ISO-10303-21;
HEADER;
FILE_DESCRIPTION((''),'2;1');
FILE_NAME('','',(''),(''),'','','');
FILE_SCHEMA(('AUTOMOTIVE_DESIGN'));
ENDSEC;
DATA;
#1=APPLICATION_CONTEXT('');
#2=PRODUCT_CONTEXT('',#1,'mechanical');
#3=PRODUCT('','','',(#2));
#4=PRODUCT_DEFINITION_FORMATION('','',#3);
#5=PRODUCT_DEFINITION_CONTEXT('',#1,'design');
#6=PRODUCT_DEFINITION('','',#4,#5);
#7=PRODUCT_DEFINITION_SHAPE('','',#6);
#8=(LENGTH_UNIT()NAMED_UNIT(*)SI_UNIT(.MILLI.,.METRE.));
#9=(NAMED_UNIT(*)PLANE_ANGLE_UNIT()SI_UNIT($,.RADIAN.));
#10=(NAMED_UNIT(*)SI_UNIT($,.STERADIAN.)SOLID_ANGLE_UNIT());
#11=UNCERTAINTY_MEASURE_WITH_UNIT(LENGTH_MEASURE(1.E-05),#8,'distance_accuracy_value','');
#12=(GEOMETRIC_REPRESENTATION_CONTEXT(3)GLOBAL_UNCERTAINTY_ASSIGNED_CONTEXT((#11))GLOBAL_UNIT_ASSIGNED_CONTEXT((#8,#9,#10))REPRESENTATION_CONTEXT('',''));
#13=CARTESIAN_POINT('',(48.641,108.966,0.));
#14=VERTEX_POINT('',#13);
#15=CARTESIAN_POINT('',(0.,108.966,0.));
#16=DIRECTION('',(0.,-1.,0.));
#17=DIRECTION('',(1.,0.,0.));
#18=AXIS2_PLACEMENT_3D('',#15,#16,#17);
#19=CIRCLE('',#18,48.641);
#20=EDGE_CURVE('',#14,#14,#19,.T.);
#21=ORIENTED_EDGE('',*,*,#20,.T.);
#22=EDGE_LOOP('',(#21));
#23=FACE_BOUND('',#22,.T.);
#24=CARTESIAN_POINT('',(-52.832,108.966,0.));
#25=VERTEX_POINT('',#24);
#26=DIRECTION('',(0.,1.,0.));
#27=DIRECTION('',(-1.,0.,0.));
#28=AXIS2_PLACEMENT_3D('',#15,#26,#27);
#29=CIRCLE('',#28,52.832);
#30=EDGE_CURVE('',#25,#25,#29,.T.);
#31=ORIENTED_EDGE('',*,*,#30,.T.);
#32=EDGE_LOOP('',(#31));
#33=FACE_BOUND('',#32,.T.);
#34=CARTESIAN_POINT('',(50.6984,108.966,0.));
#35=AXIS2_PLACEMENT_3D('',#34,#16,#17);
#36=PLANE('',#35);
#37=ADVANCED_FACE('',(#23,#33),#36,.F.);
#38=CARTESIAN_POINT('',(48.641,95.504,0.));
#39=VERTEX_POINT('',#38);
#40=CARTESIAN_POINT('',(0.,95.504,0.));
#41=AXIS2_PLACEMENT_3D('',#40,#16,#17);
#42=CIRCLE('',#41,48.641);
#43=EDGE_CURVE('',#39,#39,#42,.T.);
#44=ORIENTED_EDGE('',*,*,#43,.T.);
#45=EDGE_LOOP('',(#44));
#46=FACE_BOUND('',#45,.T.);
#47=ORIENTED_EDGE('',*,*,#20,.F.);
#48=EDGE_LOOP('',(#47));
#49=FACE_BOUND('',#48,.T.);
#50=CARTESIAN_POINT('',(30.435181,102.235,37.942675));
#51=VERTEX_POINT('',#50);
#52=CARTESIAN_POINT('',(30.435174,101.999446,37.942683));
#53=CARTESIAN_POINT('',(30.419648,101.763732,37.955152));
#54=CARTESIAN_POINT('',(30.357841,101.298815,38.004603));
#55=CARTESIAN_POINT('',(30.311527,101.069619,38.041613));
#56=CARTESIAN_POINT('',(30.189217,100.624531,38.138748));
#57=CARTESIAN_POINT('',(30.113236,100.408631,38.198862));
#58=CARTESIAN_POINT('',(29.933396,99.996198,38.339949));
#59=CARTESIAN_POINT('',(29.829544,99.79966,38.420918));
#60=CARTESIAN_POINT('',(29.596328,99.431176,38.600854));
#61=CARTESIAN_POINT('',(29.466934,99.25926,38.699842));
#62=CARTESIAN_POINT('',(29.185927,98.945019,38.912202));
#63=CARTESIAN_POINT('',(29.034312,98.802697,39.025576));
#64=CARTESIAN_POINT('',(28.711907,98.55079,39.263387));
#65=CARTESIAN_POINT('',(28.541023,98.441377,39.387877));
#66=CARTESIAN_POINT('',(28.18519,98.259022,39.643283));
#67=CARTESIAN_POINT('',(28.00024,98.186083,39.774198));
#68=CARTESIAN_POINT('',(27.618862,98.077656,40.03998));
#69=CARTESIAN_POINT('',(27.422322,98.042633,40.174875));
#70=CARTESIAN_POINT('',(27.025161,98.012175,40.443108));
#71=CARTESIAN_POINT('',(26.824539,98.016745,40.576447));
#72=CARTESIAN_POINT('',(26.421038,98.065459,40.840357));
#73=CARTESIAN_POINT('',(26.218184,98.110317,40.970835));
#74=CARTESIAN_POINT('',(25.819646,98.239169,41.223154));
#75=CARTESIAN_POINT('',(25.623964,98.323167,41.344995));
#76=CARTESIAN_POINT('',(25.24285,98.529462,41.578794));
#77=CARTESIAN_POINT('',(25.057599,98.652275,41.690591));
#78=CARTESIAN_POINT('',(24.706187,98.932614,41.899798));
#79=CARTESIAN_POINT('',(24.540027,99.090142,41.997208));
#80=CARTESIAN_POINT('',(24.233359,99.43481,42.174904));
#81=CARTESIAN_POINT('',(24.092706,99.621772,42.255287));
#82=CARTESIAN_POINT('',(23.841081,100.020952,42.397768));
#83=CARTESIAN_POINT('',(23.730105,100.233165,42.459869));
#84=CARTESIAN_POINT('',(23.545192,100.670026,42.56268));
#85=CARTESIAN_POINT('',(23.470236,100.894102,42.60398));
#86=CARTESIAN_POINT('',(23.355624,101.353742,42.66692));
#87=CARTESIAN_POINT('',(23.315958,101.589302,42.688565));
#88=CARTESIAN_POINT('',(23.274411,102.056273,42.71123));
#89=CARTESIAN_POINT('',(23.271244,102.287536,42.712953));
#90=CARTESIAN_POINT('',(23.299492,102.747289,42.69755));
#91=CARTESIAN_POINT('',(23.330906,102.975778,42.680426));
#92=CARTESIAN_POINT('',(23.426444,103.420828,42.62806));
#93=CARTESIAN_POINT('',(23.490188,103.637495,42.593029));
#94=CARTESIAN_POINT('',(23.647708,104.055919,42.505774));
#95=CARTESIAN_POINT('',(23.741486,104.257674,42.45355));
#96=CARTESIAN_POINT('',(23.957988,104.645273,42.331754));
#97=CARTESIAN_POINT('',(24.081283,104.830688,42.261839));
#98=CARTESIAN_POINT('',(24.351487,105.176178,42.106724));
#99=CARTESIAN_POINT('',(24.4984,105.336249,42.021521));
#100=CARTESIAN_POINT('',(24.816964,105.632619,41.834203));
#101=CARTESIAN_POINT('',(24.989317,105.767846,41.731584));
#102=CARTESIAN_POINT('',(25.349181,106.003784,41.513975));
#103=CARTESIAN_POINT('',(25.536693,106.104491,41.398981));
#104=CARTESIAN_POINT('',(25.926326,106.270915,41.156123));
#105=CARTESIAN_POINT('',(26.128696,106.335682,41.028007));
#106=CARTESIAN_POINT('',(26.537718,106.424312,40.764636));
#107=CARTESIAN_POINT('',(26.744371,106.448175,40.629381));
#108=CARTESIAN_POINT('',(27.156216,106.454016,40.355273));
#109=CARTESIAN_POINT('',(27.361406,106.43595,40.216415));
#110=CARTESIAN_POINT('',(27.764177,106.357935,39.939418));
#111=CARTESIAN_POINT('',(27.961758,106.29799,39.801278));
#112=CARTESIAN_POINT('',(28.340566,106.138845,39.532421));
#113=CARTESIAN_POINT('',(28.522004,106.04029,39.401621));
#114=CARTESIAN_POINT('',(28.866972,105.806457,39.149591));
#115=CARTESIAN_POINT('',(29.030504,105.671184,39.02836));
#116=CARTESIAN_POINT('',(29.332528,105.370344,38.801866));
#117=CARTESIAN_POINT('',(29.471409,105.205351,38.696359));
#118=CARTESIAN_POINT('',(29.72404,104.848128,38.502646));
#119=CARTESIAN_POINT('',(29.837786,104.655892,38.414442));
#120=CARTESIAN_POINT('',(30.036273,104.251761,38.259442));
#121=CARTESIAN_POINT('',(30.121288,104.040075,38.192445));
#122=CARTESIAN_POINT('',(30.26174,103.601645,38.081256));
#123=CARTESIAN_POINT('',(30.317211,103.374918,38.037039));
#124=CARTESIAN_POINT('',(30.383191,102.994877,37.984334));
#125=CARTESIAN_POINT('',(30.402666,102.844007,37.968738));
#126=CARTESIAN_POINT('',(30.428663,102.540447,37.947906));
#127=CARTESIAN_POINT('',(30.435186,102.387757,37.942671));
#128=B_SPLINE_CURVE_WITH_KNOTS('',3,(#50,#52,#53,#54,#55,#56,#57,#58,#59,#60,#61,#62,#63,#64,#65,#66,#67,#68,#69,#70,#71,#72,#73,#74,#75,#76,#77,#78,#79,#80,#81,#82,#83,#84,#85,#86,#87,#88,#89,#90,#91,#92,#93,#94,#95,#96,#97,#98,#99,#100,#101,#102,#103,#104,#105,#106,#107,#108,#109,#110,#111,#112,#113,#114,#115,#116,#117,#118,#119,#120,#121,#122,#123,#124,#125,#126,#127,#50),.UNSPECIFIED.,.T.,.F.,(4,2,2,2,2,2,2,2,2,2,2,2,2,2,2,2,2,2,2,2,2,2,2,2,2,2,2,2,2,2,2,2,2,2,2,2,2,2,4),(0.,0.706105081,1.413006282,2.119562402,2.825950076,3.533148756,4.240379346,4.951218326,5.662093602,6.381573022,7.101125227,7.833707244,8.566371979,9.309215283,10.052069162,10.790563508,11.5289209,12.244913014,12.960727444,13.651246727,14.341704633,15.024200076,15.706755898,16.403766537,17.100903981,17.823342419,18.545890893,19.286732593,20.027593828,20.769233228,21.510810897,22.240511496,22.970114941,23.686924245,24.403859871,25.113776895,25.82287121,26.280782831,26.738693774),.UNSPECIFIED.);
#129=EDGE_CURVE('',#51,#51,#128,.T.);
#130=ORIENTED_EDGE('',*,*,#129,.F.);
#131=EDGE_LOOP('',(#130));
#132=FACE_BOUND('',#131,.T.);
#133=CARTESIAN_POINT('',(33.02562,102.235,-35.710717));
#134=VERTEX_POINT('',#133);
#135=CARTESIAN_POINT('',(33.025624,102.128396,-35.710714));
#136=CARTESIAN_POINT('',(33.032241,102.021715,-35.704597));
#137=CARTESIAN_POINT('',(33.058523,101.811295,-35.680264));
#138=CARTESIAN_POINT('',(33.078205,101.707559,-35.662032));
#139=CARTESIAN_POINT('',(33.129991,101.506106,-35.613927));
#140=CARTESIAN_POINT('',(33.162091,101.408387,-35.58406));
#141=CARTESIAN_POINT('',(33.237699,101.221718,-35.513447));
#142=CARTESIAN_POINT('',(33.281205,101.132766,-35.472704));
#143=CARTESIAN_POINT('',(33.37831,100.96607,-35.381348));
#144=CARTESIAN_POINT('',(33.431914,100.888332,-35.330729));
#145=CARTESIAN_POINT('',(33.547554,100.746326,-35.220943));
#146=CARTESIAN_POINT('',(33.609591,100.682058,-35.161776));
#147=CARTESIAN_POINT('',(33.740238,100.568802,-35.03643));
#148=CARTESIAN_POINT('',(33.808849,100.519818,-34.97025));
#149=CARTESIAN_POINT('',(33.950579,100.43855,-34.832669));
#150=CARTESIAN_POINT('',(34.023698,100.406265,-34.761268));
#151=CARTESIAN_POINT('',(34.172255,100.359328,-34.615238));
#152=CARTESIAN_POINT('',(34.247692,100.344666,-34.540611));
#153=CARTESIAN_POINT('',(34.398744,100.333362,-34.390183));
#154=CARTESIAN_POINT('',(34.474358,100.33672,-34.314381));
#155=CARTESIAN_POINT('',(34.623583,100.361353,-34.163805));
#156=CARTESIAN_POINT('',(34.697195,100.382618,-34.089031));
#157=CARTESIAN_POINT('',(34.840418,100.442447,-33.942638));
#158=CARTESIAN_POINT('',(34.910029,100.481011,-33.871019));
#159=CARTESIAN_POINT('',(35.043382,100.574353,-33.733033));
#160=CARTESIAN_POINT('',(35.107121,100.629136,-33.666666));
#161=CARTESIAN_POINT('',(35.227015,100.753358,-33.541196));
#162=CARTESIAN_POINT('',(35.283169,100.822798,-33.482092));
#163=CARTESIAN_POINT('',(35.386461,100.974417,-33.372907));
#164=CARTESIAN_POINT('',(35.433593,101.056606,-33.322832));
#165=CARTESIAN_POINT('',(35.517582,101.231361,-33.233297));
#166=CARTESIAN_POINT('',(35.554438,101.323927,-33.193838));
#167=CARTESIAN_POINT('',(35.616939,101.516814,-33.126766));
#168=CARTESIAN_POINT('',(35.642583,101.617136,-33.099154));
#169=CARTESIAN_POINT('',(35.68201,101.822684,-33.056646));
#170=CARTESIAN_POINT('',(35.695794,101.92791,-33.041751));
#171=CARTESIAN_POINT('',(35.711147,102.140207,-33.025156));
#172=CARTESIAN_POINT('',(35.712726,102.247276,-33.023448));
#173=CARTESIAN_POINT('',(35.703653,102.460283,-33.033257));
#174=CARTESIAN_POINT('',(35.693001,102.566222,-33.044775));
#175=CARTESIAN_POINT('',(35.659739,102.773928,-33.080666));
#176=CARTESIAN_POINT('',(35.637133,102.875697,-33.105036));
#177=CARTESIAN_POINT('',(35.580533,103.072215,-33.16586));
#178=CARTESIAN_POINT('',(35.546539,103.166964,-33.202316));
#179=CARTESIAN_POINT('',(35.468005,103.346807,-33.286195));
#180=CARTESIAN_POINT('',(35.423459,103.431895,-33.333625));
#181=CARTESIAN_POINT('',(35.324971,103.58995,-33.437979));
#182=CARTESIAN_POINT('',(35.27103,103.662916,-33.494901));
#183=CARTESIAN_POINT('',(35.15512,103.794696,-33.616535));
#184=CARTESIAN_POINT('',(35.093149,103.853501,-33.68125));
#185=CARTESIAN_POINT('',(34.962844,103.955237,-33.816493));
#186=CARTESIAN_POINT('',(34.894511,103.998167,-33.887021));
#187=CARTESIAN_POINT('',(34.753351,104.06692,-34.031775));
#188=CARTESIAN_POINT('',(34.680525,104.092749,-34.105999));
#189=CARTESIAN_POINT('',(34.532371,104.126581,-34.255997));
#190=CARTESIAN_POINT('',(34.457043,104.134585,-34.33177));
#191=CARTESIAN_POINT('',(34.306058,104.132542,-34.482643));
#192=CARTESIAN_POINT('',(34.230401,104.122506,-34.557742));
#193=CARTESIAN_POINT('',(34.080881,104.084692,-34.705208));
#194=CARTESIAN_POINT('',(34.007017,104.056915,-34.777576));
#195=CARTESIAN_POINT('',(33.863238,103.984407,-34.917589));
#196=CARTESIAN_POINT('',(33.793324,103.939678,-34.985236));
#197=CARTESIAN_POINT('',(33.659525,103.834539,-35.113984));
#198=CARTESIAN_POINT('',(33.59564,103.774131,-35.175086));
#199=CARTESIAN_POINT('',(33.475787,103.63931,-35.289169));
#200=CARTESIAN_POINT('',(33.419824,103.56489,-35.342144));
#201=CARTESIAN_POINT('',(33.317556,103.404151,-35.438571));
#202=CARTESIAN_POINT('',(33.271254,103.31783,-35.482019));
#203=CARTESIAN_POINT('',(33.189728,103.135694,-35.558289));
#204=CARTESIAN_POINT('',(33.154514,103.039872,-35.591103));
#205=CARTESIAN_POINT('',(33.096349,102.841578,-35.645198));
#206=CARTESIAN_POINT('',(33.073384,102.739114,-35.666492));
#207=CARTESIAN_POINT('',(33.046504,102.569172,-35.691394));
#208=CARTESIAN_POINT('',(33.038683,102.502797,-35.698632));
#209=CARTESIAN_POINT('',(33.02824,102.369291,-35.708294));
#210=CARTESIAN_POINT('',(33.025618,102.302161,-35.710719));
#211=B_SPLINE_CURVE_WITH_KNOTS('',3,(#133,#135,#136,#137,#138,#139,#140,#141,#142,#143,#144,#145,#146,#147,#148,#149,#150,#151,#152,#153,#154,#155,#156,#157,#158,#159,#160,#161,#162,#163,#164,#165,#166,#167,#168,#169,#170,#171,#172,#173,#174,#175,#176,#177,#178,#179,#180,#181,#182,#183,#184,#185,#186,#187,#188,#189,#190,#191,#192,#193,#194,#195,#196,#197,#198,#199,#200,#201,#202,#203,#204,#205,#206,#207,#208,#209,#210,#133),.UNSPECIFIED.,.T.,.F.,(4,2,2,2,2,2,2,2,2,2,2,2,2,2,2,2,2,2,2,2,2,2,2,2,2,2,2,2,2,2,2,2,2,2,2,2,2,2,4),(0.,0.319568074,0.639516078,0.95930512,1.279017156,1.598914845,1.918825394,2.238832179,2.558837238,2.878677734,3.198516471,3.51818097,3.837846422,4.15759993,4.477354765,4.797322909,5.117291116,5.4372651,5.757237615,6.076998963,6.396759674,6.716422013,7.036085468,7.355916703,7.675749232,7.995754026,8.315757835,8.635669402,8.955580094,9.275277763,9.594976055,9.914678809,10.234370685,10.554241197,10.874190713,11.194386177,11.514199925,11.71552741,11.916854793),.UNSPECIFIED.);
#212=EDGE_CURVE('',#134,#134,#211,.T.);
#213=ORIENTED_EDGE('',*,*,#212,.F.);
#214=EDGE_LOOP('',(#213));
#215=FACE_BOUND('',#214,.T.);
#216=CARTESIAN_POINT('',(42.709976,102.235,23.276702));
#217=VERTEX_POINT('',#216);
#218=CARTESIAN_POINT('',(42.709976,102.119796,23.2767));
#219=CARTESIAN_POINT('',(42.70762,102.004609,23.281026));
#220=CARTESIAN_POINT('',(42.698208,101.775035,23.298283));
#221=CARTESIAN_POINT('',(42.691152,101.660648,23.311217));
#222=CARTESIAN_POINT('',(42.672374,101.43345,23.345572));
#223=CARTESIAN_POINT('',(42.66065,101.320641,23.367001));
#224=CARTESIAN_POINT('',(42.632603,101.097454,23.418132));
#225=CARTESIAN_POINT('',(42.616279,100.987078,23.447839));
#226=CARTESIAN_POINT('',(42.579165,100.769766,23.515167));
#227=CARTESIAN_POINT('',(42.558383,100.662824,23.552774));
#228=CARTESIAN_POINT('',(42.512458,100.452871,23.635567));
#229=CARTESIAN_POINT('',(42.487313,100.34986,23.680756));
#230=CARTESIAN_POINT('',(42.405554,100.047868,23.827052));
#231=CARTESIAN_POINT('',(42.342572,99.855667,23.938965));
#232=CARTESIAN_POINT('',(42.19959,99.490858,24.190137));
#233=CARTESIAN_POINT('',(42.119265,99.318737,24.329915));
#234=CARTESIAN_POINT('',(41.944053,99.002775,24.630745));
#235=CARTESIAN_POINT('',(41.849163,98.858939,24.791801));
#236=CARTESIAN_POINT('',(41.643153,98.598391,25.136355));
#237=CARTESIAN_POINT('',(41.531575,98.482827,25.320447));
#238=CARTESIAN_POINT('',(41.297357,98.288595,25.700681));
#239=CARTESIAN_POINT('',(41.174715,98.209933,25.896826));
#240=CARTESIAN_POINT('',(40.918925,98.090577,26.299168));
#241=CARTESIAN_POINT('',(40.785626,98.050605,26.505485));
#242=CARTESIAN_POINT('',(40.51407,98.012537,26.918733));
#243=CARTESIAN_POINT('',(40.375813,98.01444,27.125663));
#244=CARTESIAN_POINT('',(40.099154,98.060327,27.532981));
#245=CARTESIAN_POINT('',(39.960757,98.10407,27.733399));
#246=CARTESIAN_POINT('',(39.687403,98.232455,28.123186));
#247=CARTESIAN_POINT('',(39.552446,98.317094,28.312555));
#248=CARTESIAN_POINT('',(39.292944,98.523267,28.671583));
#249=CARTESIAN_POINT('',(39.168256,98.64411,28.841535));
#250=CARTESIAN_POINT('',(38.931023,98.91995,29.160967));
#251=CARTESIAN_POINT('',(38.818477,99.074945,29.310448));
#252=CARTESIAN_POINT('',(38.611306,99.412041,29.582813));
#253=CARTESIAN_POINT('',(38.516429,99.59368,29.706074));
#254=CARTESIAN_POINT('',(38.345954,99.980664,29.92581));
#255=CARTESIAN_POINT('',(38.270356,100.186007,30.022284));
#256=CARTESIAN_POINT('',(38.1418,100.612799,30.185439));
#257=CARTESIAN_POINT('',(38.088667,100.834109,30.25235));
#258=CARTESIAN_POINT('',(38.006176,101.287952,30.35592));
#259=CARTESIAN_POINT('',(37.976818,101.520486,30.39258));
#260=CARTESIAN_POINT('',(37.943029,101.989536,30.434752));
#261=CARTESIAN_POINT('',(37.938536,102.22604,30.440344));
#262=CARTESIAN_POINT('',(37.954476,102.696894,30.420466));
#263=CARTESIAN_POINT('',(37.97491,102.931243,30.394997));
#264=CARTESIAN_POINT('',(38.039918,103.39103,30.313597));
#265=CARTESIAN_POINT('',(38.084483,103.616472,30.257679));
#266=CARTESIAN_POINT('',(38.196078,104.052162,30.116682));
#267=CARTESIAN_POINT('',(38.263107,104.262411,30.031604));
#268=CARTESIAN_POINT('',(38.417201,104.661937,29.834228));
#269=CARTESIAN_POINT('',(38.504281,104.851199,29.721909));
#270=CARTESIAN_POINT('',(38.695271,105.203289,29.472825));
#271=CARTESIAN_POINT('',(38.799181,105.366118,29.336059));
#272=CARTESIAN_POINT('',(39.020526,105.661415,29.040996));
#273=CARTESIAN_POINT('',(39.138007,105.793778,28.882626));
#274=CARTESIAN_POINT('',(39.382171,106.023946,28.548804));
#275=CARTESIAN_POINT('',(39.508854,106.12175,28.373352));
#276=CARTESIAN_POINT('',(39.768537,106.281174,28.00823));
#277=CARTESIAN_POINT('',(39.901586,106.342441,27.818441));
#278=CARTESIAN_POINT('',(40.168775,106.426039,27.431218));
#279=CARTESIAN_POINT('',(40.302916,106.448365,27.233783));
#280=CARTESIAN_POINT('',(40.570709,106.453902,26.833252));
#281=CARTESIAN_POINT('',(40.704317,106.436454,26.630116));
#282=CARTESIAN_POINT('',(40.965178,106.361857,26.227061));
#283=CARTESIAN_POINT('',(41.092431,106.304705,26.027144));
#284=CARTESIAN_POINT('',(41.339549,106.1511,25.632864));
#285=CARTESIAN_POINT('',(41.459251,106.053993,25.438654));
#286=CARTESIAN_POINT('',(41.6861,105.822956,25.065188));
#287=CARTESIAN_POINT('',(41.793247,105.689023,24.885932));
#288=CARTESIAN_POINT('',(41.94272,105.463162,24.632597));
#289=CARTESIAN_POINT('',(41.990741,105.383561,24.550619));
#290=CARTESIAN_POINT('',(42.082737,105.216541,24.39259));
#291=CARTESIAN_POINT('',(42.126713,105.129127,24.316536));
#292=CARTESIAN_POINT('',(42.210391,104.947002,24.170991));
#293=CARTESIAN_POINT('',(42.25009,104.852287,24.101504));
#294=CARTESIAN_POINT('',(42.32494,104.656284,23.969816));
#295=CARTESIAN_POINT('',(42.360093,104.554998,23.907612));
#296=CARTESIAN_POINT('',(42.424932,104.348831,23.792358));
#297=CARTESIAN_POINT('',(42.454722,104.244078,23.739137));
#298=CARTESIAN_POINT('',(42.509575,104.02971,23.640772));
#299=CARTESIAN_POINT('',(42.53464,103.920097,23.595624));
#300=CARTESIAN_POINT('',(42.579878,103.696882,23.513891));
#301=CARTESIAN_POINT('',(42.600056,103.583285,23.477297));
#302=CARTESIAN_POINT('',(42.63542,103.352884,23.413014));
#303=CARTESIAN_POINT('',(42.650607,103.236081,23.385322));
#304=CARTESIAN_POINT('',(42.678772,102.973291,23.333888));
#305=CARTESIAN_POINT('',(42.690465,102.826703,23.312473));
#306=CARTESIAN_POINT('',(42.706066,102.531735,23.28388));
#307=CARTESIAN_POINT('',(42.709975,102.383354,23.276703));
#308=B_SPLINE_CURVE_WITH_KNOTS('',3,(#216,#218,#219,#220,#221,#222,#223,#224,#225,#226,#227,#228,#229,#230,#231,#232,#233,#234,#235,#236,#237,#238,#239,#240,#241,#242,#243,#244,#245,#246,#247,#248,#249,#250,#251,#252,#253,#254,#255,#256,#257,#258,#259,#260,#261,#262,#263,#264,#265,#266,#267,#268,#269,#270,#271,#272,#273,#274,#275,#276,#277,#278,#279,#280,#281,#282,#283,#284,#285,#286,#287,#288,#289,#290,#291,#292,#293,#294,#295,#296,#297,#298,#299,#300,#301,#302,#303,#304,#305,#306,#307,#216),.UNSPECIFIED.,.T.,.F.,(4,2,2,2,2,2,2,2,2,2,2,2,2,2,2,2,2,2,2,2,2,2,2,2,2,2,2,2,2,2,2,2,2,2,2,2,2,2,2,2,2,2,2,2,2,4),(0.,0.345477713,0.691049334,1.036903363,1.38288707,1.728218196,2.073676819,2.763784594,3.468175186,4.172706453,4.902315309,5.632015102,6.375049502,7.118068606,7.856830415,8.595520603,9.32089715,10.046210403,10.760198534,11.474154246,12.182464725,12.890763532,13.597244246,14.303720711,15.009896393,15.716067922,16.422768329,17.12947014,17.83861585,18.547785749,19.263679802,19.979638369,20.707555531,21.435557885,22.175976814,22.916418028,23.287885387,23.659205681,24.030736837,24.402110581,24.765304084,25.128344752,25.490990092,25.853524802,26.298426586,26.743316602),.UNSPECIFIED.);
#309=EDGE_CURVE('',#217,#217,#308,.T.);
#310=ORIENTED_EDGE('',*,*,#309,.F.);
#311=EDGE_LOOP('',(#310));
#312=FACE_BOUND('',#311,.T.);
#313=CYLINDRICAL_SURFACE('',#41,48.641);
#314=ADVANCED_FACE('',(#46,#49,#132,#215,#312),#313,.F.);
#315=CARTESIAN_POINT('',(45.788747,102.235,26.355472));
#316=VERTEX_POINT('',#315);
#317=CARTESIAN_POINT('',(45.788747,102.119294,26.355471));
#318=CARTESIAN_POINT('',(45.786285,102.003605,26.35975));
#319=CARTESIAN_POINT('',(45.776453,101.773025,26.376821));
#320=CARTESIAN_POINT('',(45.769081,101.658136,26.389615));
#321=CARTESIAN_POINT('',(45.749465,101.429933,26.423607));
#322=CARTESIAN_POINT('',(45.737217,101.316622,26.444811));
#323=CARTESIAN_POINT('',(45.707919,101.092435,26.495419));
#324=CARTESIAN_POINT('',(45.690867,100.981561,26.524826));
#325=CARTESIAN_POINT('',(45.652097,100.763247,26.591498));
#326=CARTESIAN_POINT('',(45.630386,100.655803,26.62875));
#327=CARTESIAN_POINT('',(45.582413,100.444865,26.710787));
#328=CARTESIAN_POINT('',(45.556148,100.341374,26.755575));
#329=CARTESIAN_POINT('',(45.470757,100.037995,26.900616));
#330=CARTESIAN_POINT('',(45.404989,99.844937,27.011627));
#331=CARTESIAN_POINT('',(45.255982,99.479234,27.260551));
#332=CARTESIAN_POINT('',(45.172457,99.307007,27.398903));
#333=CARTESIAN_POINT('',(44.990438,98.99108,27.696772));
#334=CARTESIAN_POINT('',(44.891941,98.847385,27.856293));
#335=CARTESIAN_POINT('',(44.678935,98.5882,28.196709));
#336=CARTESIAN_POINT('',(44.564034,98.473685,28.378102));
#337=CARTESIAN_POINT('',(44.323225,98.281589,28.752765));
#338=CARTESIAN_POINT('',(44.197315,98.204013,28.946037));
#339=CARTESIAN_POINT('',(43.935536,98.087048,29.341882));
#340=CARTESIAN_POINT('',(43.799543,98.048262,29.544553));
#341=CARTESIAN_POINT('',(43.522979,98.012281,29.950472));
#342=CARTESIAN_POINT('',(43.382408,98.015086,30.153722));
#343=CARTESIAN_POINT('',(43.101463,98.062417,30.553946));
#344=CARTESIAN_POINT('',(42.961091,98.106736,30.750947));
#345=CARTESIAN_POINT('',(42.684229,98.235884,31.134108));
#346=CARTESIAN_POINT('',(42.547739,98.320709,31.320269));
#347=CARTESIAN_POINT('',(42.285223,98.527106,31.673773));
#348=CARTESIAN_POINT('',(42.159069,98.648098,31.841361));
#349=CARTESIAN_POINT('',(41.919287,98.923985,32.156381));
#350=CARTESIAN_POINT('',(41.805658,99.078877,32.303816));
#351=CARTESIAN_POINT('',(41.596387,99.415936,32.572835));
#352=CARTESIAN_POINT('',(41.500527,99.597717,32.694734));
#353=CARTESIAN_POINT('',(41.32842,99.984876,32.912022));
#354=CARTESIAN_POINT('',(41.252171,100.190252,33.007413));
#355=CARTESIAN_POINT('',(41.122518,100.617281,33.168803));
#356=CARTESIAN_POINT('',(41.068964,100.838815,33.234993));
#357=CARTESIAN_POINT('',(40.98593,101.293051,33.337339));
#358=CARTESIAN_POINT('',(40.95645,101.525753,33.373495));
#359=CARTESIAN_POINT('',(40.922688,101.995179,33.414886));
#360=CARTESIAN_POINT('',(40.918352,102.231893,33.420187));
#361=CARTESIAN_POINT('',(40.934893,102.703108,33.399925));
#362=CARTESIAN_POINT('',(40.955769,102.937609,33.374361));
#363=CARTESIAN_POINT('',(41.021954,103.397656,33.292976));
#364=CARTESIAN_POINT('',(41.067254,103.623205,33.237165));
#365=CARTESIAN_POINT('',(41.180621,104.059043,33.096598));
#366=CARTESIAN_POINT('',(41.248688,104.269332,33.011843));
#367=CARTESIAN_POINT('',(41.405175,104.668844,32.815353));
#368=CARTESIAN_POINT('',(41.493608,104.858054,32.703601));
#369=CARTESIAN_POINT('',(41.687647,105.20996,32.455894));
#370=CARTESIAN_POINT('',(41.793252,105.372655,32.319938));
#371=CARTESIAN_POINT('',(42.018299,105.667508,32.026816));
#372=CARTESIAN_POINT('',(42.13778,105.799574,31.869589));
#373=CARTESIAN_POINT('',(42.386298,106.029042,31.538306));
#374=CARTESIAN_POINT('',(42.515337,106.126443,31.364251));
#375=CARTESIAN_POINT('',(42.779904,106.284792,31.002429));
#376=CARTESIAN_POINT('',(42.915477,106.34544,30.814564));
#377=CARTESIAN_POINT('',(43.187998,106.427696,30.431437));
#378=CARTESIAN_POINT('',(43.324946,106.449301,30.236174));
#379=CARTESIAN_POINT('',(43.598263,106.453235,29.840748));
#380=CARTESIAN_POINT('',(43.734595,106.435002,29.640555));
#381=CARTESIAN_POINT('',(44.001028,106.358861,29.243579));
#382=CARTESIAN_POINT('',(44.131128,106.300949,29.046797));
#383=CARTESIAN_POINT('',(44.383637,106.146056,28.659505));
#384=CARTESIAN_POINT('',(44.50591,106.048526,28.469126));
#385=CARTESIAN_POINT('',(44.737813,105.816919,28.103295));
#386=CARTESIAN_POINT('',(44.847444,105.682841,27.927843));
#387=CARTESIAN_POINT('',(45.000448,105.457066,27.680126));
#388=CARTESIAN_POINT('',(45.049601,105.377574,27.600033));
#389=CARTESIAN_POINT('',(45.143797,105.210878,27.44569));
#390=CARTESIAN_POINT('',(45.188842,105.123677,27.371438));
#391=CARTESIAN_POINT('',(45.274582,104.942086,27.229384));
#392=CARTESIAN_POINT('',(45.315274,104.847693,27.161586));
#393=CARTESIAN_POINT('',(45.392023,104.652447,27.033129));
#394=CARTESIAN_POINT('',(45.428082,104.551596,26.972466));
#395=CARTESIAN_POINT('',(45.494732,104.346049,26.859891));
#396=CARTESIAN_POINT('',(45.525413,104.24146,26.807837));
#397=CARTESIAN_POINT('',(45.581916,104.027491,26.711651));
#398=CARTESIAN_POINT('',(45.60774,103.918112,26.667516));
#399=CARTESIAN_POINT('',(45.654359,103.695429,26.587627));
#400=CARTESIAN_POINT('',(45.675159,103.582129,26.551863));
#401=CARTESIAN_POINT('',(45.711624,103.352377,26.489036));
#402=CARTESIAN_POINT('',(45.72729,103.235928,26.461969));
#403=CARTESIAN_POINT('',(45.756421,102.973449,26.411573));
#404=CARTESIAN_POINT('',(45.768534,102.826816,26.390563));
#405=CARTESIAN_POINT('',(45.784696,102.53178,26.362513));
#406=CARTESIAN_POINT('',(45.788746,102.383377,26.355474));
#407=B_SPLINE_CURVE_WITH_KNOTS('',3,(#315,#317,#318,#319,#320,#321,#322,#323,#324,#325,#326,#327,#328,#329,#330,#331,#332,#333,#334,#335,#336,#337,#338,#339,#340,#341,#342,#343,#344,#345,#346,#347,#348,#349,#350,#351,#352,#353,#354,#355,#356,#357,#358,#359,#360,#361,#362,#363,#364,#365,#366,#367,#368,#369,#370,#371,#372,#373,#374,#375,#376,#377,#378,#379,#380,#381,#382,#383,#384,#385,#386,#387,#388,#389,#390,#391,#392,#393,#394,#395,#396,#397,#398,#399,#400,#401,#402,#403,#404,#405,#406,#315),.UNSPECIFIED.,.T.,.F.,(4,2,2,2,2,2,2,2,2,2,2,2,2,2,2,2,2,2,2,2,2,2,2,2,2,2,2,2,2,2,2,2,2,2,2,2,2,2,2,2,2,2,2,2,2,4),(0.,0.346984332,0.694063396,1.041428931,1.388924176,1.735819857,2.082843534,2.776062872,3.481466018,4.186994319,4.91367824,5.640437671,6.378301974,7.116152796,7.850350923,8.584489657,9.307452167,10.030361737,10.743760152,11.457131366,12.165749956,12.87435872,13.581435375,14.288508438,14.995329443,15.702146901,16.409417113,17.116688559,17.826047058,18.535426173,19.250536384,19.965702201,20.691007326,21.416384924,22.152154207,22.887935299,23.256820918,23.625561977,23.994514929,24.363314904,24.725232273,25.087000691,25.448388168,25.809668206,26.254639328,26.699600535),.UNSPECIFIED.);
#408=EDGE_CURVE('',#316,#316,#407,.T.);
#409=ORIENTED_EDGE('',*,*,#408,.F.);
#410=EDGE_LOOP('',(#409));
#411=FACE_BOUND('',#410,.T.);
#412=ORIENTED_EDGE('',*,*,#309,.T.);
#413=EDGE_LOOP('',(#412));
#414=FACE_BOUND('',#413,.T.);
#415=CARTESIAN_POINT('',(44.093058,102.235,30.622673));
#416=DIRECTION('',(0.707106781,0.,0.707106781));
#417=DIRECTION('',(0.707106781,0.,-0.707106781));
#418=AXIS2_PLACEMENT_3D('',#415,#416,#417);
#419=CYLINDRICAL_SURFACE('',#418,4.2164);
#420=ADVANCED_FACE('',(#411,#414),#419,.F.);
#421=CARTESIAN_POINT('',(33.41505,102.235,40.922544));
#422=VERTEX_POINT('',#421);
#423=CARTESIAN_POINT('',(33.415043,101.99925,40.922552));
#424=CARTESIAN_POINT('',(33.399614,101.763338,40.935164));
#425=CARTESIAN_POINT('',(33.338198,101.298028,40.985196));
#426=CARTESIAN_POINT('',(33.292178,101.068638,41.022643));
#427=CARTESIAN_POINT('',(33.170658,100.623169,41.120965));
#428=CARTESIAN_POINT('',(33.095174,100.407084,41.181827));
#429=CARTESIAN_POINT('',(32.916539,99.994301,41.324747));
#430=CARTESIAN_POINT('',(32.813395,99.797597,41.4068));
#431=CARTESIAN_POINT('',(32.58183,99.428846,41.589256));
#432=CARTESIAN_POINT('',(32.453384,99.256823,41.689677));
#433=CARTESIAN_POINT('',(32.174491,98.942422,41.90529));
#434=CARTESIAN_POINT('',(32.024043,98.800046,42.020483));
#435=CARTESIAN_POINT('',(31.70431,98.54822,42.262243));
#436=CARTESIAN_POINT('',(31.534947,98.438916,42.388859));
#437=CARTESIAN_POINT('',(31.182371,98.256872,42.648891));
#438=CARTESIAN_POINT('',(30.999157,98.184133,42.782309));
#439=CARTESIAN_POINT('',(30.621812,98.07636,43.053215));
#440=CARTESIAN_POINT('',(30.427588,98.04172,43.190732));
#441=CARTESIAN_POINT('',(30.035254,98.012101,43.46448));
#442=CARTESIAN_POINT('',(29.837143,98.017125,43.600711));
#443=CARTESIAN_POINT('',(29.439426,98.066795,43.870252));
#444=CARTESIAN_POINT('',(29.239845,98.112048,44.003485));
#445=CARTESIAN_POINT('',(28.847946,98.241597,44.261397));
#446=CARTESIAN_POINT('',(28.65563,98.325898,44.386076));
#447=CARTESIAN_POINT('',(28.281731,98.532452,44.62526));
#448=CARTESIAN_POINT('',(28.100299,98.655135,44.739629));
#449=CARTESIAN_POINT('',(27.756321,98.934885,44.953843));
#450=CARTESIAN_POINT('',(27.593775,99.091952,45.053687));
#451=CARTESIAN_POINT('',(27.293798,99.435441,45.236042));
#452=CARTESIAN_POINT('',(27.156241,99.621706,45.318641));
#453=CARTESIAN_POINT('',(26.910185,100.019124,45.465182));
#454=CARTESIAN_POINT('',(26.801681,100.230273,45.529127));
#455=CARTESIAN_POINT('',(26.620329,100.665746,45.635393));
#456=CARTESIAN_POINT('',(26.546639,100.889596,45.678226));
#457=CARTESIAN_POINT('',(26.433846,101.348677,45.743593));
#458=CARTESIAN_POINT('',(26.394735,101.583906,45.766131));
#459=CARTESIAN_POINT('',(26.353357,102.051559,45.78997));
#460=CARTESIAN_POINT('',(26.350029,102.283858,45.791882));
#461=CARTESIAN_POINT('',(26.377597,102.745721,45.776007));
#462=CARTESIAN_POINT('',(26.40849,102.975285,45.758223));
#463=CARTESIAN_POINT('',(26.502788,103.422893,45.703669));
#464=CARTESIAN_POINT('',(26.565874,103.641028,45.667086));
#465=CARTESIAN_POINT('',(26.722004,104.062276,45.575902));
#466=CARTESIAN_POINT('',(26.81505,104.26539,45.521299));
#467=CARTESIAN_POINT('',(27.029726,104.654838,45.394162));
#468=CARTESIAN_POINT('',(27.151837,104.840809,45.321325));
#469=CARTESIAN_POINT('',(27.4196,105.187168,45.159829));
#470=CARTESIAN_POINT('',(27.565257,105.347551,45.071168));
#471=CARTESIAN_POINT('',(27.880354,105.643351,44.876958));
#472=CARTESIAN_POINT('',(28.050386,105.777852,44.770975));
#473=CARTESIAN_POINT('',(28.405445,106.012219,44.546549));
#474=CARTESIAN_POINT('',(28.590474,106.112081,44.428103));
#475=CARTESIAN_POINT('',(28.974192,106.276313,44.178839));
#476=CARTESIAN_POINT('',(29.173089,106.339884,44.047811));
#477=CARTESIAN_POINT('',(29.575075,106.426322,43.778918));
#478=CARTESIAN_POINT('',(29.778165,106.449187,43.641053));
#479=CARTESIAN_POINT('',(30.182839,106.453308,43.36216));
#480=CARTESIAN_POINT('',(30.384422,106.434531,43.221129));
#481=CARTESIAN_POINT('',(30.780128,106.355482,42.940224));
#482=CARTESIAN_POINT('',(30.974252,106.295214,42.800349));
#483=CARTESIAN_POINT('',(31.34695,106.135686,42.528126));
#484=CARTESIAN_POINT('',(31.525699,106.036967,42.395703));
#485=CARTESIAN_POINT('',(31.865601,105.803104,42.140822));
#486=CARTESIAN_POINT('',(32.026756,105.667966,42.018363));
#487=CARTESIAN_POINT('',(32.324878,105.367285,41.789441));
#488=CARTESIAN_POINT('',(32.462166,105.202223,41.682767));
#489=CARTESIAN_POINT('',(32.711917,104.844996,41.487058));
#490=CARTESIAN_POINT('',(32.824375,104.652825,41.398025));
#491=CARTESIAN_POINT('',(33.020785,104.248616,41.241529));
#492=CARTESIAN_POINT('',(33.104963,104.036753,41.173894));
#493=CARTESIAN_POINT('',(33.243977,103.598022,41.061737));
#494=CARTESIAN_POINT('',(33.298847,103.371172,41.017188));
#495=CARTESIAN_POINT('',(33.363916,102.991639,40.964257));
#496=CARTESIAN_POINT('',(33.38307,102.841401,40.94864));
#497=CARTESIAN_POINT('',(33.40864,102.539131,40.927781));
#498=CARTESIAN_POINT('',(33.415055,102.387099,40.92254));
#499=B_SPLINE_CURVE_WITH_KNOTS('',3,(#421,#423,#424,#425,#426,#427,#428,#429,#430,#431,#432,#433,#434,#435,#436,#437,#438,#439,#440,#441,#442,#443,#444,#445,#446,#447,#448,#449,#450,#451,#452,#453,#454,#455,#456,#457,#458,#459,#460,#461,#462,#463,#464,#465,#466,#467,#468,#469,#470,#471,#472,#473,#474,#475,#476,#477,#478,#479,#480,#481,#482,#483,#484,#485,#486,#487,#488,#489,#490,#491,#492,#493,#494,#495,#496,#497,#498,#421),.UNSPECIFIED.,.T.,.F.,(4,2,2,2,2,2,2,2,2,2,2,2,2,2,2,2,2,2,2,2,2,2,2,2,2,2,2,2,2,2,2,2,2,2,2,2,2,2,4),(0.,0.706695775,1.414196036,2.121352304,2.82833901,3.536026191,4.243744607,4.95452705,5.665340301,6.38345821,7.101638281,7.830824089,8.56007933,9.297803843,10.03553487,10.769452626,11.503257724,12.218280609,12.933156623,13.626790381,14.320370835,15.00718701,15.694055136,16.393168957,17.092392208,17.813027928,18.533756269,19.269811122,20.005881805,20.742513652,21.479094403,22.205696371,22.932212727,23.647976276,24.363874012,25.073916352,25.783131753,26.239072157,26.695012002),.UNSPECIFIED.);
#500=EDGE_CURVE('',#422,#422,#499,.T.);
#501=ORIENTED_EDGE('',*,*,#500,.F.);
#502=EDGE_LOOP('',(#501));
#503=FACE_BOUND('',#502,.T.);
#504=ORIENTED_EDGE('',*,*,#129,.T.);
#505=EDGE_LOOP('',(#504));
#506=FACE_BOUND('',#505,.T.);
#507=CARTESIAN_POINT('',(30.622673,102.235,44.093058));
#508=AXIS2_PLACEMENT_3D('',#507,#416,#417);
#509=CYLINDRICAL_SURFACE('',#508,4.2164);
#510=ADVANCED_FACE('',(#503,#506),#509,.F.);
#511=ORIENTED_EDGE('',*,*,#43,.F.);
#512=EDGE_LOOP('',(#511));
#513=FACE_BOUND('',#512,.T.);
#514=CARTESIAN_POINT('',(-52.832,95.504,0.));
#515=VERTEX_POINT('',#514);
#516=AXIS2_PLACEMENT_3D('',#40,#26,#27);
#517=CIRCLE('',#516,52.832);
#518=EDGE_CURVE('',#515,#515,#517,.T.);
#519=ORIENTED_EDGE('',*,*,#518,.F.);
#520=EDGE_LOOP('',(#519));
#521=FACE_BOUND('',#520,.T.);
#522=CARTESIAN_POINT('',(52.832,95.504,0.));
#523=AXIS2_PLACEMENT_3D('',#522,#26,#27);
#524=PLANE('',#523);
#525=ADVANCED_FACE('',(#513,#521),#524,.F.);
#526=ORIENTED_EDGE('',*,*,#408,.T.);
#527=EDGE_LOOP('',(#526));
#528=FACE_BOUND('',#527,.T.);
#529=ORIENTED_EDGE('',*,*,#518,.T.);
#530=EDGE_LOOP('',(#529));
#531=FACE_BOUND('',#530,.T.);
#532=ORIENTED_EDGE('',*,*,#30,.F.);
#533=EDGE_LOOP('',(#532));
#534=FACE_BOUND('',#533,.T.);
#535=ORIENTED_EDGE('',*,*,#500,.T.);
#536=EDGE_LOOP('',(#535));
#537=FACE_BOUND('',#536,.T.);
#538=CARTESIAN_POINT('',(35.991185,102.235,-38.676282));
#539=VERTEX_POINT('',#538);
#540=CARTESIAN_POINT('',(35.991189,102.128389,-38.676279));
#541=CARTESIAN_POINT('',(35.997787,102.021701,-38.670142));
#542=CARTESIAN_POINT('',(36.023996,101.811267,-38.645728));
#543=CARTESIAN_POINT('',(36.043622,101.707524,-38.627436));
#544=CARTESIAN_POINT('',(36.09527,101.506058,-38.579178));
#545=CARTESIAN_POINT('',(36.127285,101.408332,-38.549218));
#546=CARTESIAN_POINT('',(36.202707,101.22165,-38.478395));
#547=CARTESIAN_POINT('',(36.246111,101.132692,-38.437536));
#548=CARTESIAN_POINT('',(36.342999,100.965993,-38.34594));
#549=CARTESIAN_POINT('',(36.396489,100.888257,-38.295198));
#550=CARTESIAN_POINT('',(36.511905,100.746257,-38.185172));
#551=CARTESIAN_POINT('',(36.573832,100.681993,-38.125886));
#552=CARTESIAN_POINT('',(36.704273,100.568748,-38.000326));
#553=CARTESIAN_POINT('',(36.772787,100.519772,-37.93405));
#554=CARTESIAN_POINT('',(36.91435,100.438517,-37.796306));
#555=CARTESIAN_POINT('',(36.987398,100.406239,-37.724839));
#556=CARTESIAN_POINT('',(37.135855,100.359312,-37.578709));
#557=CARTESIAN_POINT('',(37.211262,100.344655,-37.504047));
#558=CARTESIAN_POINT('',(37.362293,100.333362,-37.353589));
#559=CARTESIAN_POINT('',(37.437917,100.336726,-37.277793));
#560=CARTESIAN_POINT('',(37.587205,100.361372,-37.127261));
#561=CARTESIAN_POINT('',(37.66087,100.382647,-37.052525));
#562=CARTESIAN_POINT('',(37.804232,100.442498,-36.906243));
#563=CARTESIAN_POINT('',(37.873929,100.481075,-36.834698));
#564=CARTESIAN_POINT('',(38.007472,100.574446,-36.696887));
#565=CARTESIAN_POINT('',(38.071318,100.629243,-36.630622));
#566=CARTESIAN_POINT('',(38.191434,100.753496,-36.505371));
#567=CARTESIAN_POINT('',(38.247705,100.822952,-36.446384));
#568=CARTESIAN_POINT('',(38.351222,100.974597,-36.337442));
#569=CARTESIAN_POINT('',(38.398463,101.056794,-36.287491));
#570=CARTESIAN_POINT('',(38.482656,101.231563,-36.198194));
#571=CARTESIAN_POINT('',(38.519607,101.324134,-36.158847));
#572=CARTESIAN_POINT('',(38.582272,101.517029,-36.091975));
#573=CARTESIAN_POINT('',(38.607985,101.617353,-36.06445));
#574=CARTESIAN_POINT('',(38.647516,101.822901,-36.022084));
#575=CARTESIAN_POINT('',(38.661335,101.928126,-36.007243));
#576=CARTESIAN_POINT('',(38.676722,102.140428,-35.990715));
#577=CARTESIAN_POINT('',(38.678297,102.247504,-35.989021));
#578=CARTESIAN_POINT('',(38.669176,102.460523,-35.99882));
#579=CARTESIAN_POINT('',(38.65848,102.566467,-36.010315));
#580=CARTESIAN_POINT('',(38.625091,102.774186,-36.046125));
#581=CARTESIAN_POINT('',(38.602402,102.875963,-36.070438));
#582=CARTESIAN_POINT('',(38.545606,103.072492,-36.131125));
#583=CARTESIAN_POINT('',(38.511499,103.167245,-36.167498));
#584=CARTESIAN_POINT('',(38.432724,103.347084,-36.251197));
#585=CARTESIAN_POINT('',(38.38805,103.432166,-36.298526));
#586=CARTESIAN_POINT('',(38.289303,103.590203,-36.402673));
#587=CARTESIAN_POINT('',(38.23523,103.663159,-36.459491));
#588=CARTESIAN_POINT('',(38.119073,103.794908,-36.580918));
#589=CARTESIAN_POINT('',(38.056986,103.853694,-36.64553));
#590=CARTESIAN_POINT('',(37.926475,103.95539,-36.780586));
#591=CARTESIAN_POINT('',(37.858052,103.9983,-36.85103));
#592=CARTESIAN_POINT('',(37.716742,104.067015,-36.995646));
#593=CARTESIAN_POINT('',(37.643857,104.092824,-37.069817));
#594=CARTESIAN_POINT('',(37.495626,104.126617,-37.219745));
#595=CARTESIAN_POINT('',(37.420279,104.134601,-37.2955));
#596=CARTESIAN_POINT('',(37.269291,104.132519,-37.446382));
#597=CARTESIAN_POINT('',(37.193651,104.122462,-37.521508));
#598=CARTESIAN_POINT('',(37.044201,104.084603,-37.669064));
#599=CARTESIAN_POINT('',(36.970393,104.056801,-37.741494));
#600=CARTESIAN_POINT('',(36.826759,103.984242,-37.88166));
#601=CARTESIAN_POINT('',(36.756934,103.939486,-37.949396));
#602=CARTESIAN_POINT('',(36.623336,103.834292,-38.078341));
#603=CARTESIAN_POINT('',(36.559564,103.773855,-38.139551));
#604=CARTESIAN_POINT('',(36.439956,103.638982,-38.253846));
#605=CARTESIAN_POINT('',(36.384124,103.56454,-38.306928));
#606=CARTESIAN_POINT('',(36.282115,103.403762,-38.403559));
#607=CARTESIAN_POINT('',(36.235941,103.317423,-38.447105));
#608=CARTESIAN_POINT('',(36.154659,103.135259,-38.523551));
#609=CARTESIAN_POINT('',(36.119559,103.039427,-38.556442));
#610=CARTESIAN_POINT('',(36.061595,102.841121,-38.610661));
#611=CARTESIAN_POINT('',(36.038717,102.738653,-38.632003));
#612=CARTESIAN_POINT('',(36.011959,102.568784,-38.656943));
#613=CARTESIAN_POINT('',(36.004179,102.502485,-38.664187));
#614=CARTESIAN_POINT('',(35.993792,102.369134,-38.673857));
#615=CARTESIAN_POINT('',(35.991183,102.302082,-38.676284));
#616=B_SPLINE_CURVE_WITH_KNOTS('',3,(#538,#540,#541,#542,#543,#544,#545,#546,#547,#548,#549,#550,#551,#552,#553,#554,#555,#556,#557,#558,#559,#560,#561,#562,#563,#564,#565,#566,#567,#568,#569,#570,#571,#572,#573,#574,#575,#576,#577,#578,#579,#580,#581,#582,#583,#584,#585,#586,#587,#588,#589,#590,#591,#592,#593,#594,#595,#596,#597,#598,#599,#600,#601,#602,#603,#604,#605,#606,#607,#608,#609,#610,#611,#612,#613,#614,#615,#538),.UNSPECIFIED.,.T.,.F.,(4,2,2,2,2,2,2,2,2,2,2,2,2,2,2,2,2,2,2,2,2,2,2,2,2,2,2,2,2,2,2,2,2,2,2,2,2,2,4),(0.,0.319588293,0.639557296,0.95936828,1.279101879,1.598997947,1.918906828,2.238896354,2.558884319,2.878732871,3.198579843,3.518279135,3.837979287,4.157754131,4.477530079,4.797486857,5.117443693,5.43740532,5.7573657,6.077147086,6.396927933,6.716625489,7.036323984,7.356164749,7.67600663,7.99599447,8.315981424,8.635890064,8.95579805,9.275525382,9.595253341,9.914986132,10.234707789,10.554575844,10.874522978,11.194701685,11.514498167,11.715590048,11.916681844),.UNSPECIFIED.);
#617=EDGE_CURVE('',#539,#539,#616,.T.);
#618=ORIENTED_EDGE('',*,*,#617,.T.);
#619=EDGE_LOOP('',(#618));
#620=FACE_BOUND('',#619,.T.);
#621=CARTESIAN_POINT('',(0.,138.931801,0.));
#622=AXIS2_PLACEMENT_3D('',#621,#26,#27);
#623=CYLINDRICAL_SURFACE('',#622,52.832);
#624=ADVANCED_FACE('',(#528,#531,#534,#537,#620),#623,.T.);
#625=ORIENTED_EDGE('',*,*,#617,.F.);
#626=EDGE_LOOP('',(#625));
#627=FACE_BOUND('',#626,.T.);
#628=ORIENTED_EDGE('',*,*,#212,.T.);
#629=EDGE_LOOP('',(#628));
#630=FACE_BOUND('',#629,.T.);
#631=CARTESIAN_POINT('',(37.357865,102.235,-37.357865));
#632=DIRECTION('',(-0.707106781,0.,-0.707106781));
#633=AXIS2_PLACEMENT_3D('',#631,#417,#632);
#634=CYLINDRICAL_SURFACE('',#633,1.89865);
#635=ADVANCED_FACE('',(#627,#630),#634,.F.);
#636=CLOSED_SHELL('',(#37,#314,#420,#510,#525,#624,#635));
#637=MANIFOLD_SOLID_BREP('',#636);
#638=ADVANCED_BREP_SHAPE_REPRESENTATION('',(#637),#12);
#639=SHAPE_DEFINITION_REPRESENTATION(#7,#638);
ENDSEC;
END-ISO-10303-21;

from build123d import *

# Parameters (mm, degrees)
SKETCH2_R                    = 7.9375
SKETCH2_R_2                  = 3.7465
BOSS_EXTRUDE1_DEPTH          = 204.47
FILLET1_R                    = 3.81
CIRPATTERN1_COUNT            = 4
FILLET1_OF_CIRPATTERN1_R     = 3.81
SKETCH3_R                    = 8.636
CUT_EXTRUDE1_DEPTH           = 12.7
CIRPATTERN2_COUNT            = 4
FILLET2_R                    = 2.54
MIRROR1_COPY_1_SKETCH_R      = 8.636
MIRROR1_COPY_1_DEPTH         = 12.7
MIRROR1_COPY_2_SKETCH_R      = 8.636
MIRROR1_COPY_2_DEPTH         = 12.7
MIRROR1_COPY_3_SKETCH_R      = 8.636
MIRROR1_COPY_3_DEPTH         = 12.7
FILLET3_R                    = 2.54
F_5_16_CLEARANCE_HOLE1_D     = 8.4328
F_5_16_CLEARANCE_HOLE1_DEPTH = 54.864
F_5_16_CLEARANCE_HOLE1_TIP   = 2.533468714
F_6_CLEARANCE_HOLE1_D        = 3.7973
F_6_CLEARANCE_HOLE1_DEPTH    = 54.864
F_6_CLEARANCE_HOLE1_TIP      = 1.140824014
CUT_EXTRUDE2_START           = -204.47
SKETCH9_R                    = 52.832
CUT_EXTRUDE2_DEPTH           = 95.504


with BuildPart() as part:
    # Sketch1 → Revolve1 (revolve)
    with BuildSketch(Plane.XY, mode=Mode.PRIVATE) as revolve1_sk:
        Polygon((44.45, 0), (44.45, 204.47), (50.6984, 204.47), (50.6984, 108.966), (52.832, 108.966), (52.832, 95.504), (50.6984, 95.504), (50.6984, 0), align=None)
    revolve(revolve1_sk.sketch.rotate(Axis((0, 138.931800571, 0), (0, -1, 0)), 180), axis=Axis((0, 138.931800571, 0), (0, -1, 0)))

    # Sketch2 → Boss-Extrude1 (add)
    with BuildSketch(Plane(origin=(0, 204.47, 0), x_dir=(1, 0, 0), z_dir=(0, 1, 0))):
        with Locations((0, 40.7035)):
            Circle(SKETCH2_R)
        with Locations(Location((0, 40.7035, 0), (0, 0, 180))):
            Circle(SKETCH2_R_2, mode=Mode.SUBTRACT)
    boss_extrude1 = extrude(amount=-BOSS_EXTRUDE1_DEPTH)

    # Fillet1
    fillet1_edges = [part.edges().sort_by_distance(p)[0] for p in [
        (-7.287865551, 102.235, -43.848483619),
        (7.287865551, 102.235, -43.848483619),
    ]]
    fillet(fillet1_edges, radius=FILLET1_R)

    # CirPattern1: Boss-Extrude1 ×4 about axis
    cirpattern1_axis = Axis((0, 0, 0), (0, 1, 0))
    for i in range(1, CIRPATTERN1_COUNT):
        add(boss_extrude1.rotate(cirpattern1_axis, i * 360 / CIRPATTERN1_COUNT))

    # Fillet1 of CirPattern1
    fillet1_of_cirpattern1_edges = [part.edges().sort_by_distance(p)[0] for p in [
        (-43.848483619, 102.235, 7.287865551),
        (-43.848483619, 102.235, -7.287865551),
        (7.287865551, 102.235, 43.848483619),
        (-7.287865551, 102.235, 43.848483619),
        (43.848483619, 102.235, -7.287865551),
        (43.848483619, 102.235, 7.287865551),
    ]]
    fillet(fillet1_of_cirpattern1_edges, radius=FILLET1_OF_CIRPATTERN1_R)

    # Sketch3 → Cut-Extrude1 (cut)
    with BuildSketch(Plane(origin=(0, 204.47, 0), x_dir=(1, 0, 0), z_dir=(0, 1, 0))):
        with Locations((0, 40.7035)):
            Circle(SKETCH3_R)
    cut_extrude1 = extrude(amount=-CUT_EXTRUDE1_DEPTH, mode=Mode.SUBTRACT)

    # CirPattern2: Cut-Extrude1 ×4 about axis
    cirpattern2_axis = Axis((0, 0, 0), (0, 1, 0))
    for i in range(1, CIRPATTERN2_COUNT):
        add(cut_extrude1.rotate(cirpattern2_axis, i * 360 / CIRPATTERN2_COUNT), mode=Mode.SUBTRACT)

    # Fillet2
    fillet2_edges = [part.edges().sort_by_distance(p)[0] for p in [
        (-8.61576795, 198.12, -41.294294914),
        (8.61576795, 198.12, -41.294294914),
        (-41.294294914, 198.12, 8.61576795),
        (8.61576795, 198.12, 41.294294914),
        (41.294294914, 198.12, -8.61576795),
        (41.294294914, 198.12, 8.61576795),
        (-8.61576795, 198.12, 41.294294914),
        (-41.294294914, 198.12, -8.61576795),
    ]]
    fillet(fillet2_edges, radius=FILLET2_R)

    # Mirror1: Cut-Extrude1 across plane
    add(cut_extrude1.mirror(Plane.ZX.offset(102.235)), mode=Mode.SUBTRACT)

    # Mirror1 copy 1 sketch → Mirror1 copy 1 (cut)
    with BuildSketch(Plane(origin=(0, 0, 0), x_dir=(0, 0, -1), z_dir=(0, -1, 0))):
        with Locations((0, -40.7035)):
            Circle(MIRROR1_COPY_1_SKETCH_R)
    extrude(amount=-MIRROR1_COPY_1_DEPTH, mode=Mode.SUBTRACT)

    # Mirror1 copy 2 sketch → Mirror1 copy 2 (cut)
    with BuildSketch(Plane(origin=(0, 0, 0), x_dir=(-1, 0, 0), z_dir=(0, -1, 0))):
        with Locations((0, -40.7035)):
            Circle(MIRROR1_COPY_2_SKETCH_R)
    extrude(amount=-MIRROR1_COPY_2_DEPTH, mode=Mode.SUBTRACT)

    # Mirror1 copy 3 sketch → Mirror1 copy 3 (cut)
    with BuildSketch(Plane(origin=(0, 0, 0), x_dir=(0, 0, 1), z_dir=(0, -1, 0))):
        with Locations((0, -40.7035)):
            Circle(MIRROR1_COPY_3_SKETCH_R)
    extrude(amount=-MIRROR1_COPY_3_DEPTH, mode=Mode.SUBTRACT)

    # Fillet3
    fillet3_edges = [part.edges().sort_by_distance(p)[0] for p in [
        (-41.294294914, 6.35, 8.61576795),
        (8.61576795, 6.35, 41.294294914),
        (41.294294914, 6.35, -8.61576795),
        (-8.61576795, 6.35, -41.294294914),
        (8.61576795, 6.35, -41.294294914),
        (41.294294914, 6.35, 8.61576795),
        (-8.61576795, 6.35, 41.294294914),
        (-41.294294914, 6.35, -8.61576795),
    ]]
    fillet(fillet3_edges, radius=FILLET3_R)

    # 5/16 Clearance Hole1
    with Locations(Plane(origin=(37.357865464, 0, 37.357865464), x_dir=(0, 1, 0), z_dir=(0.7071067811865488, 0, 0.7071067811865464))):
        with Locations((102.235, -9.525), (102.235, 9.525)):
            Hole(F_5_16_CLEARANCE_HOLE1_D / 2, depth=F_5_16_CLEARANCE_HOLE1_DEPTH)
            with Locations((0, 0, -(F_5_16_CLEARANCE_HOLE1_DEPTH + F_5_16_CLEARANCE_HOLE1_TIP / 2))):  # 118° drill point
                Cone(0, F_5_16_CLEARANCE_HOLE1_D / 2, F_5_16_CLEARANCE_HOLE1_TIP, mode=Mode.SUBTRACT)

    # #6 Clearance Hole1
    with Locations(Plane(origin=(37.357865464, 0, -37.357865464), x_dir=(0, 1, 0), z_dir=(0.7071067811865438, 0, -0.7071067811865512))):
        with Locations((102.235, 0)):
            Hole(F_6_CLEARANCE_HOLE1_D / 2, depth=F_6_CLEARANCE_HOLE1_DEPTH)
            with Locations((0, 0, -(F_6_CLEARANCE_HOLE1_DEPTH + F_6_CLEARANCE_HOLE1_TIP / 2))):  # 118° drill point
                Cone(0, F_6_CLEARANCE_HOLE1_D / 2, F_6_CLEARANCE_HOLE1_TIP, mode=Mode.SUBTRACT)

    # Sketch9 → Cut-Extrude2 (cut)
    with BuildSketch(Plane(origin=(0, 204.47, 0), x_dir=(1, 0, 0), z_dir=(0, 1, 0)).offset(CUT_EXTRUDE2_START)):
        with Locations(Location((0, 0, 0), (0, 0, 180))):
            Circle(SKETCH9_R)
    extrude(amount=CUT_EXTRUDE2_DEPTH, mode=Mode.SUBTRACT)

    # Sketch11 → Cut-Revolve2 (revolve, cut)
    with BuildSketch(Plane.XY):
        Polygon((48.641, 95.504), (0, 95.504), (0, 204.47), (50.6984, 204.47), (50.6984, 108.966), (48.641, 108.966), align=None)
    revolve(axis=Axis((0, 95.504, 0), (0, 1, 0)), mode=Mode.SUBTRACT)


solid = part.part
